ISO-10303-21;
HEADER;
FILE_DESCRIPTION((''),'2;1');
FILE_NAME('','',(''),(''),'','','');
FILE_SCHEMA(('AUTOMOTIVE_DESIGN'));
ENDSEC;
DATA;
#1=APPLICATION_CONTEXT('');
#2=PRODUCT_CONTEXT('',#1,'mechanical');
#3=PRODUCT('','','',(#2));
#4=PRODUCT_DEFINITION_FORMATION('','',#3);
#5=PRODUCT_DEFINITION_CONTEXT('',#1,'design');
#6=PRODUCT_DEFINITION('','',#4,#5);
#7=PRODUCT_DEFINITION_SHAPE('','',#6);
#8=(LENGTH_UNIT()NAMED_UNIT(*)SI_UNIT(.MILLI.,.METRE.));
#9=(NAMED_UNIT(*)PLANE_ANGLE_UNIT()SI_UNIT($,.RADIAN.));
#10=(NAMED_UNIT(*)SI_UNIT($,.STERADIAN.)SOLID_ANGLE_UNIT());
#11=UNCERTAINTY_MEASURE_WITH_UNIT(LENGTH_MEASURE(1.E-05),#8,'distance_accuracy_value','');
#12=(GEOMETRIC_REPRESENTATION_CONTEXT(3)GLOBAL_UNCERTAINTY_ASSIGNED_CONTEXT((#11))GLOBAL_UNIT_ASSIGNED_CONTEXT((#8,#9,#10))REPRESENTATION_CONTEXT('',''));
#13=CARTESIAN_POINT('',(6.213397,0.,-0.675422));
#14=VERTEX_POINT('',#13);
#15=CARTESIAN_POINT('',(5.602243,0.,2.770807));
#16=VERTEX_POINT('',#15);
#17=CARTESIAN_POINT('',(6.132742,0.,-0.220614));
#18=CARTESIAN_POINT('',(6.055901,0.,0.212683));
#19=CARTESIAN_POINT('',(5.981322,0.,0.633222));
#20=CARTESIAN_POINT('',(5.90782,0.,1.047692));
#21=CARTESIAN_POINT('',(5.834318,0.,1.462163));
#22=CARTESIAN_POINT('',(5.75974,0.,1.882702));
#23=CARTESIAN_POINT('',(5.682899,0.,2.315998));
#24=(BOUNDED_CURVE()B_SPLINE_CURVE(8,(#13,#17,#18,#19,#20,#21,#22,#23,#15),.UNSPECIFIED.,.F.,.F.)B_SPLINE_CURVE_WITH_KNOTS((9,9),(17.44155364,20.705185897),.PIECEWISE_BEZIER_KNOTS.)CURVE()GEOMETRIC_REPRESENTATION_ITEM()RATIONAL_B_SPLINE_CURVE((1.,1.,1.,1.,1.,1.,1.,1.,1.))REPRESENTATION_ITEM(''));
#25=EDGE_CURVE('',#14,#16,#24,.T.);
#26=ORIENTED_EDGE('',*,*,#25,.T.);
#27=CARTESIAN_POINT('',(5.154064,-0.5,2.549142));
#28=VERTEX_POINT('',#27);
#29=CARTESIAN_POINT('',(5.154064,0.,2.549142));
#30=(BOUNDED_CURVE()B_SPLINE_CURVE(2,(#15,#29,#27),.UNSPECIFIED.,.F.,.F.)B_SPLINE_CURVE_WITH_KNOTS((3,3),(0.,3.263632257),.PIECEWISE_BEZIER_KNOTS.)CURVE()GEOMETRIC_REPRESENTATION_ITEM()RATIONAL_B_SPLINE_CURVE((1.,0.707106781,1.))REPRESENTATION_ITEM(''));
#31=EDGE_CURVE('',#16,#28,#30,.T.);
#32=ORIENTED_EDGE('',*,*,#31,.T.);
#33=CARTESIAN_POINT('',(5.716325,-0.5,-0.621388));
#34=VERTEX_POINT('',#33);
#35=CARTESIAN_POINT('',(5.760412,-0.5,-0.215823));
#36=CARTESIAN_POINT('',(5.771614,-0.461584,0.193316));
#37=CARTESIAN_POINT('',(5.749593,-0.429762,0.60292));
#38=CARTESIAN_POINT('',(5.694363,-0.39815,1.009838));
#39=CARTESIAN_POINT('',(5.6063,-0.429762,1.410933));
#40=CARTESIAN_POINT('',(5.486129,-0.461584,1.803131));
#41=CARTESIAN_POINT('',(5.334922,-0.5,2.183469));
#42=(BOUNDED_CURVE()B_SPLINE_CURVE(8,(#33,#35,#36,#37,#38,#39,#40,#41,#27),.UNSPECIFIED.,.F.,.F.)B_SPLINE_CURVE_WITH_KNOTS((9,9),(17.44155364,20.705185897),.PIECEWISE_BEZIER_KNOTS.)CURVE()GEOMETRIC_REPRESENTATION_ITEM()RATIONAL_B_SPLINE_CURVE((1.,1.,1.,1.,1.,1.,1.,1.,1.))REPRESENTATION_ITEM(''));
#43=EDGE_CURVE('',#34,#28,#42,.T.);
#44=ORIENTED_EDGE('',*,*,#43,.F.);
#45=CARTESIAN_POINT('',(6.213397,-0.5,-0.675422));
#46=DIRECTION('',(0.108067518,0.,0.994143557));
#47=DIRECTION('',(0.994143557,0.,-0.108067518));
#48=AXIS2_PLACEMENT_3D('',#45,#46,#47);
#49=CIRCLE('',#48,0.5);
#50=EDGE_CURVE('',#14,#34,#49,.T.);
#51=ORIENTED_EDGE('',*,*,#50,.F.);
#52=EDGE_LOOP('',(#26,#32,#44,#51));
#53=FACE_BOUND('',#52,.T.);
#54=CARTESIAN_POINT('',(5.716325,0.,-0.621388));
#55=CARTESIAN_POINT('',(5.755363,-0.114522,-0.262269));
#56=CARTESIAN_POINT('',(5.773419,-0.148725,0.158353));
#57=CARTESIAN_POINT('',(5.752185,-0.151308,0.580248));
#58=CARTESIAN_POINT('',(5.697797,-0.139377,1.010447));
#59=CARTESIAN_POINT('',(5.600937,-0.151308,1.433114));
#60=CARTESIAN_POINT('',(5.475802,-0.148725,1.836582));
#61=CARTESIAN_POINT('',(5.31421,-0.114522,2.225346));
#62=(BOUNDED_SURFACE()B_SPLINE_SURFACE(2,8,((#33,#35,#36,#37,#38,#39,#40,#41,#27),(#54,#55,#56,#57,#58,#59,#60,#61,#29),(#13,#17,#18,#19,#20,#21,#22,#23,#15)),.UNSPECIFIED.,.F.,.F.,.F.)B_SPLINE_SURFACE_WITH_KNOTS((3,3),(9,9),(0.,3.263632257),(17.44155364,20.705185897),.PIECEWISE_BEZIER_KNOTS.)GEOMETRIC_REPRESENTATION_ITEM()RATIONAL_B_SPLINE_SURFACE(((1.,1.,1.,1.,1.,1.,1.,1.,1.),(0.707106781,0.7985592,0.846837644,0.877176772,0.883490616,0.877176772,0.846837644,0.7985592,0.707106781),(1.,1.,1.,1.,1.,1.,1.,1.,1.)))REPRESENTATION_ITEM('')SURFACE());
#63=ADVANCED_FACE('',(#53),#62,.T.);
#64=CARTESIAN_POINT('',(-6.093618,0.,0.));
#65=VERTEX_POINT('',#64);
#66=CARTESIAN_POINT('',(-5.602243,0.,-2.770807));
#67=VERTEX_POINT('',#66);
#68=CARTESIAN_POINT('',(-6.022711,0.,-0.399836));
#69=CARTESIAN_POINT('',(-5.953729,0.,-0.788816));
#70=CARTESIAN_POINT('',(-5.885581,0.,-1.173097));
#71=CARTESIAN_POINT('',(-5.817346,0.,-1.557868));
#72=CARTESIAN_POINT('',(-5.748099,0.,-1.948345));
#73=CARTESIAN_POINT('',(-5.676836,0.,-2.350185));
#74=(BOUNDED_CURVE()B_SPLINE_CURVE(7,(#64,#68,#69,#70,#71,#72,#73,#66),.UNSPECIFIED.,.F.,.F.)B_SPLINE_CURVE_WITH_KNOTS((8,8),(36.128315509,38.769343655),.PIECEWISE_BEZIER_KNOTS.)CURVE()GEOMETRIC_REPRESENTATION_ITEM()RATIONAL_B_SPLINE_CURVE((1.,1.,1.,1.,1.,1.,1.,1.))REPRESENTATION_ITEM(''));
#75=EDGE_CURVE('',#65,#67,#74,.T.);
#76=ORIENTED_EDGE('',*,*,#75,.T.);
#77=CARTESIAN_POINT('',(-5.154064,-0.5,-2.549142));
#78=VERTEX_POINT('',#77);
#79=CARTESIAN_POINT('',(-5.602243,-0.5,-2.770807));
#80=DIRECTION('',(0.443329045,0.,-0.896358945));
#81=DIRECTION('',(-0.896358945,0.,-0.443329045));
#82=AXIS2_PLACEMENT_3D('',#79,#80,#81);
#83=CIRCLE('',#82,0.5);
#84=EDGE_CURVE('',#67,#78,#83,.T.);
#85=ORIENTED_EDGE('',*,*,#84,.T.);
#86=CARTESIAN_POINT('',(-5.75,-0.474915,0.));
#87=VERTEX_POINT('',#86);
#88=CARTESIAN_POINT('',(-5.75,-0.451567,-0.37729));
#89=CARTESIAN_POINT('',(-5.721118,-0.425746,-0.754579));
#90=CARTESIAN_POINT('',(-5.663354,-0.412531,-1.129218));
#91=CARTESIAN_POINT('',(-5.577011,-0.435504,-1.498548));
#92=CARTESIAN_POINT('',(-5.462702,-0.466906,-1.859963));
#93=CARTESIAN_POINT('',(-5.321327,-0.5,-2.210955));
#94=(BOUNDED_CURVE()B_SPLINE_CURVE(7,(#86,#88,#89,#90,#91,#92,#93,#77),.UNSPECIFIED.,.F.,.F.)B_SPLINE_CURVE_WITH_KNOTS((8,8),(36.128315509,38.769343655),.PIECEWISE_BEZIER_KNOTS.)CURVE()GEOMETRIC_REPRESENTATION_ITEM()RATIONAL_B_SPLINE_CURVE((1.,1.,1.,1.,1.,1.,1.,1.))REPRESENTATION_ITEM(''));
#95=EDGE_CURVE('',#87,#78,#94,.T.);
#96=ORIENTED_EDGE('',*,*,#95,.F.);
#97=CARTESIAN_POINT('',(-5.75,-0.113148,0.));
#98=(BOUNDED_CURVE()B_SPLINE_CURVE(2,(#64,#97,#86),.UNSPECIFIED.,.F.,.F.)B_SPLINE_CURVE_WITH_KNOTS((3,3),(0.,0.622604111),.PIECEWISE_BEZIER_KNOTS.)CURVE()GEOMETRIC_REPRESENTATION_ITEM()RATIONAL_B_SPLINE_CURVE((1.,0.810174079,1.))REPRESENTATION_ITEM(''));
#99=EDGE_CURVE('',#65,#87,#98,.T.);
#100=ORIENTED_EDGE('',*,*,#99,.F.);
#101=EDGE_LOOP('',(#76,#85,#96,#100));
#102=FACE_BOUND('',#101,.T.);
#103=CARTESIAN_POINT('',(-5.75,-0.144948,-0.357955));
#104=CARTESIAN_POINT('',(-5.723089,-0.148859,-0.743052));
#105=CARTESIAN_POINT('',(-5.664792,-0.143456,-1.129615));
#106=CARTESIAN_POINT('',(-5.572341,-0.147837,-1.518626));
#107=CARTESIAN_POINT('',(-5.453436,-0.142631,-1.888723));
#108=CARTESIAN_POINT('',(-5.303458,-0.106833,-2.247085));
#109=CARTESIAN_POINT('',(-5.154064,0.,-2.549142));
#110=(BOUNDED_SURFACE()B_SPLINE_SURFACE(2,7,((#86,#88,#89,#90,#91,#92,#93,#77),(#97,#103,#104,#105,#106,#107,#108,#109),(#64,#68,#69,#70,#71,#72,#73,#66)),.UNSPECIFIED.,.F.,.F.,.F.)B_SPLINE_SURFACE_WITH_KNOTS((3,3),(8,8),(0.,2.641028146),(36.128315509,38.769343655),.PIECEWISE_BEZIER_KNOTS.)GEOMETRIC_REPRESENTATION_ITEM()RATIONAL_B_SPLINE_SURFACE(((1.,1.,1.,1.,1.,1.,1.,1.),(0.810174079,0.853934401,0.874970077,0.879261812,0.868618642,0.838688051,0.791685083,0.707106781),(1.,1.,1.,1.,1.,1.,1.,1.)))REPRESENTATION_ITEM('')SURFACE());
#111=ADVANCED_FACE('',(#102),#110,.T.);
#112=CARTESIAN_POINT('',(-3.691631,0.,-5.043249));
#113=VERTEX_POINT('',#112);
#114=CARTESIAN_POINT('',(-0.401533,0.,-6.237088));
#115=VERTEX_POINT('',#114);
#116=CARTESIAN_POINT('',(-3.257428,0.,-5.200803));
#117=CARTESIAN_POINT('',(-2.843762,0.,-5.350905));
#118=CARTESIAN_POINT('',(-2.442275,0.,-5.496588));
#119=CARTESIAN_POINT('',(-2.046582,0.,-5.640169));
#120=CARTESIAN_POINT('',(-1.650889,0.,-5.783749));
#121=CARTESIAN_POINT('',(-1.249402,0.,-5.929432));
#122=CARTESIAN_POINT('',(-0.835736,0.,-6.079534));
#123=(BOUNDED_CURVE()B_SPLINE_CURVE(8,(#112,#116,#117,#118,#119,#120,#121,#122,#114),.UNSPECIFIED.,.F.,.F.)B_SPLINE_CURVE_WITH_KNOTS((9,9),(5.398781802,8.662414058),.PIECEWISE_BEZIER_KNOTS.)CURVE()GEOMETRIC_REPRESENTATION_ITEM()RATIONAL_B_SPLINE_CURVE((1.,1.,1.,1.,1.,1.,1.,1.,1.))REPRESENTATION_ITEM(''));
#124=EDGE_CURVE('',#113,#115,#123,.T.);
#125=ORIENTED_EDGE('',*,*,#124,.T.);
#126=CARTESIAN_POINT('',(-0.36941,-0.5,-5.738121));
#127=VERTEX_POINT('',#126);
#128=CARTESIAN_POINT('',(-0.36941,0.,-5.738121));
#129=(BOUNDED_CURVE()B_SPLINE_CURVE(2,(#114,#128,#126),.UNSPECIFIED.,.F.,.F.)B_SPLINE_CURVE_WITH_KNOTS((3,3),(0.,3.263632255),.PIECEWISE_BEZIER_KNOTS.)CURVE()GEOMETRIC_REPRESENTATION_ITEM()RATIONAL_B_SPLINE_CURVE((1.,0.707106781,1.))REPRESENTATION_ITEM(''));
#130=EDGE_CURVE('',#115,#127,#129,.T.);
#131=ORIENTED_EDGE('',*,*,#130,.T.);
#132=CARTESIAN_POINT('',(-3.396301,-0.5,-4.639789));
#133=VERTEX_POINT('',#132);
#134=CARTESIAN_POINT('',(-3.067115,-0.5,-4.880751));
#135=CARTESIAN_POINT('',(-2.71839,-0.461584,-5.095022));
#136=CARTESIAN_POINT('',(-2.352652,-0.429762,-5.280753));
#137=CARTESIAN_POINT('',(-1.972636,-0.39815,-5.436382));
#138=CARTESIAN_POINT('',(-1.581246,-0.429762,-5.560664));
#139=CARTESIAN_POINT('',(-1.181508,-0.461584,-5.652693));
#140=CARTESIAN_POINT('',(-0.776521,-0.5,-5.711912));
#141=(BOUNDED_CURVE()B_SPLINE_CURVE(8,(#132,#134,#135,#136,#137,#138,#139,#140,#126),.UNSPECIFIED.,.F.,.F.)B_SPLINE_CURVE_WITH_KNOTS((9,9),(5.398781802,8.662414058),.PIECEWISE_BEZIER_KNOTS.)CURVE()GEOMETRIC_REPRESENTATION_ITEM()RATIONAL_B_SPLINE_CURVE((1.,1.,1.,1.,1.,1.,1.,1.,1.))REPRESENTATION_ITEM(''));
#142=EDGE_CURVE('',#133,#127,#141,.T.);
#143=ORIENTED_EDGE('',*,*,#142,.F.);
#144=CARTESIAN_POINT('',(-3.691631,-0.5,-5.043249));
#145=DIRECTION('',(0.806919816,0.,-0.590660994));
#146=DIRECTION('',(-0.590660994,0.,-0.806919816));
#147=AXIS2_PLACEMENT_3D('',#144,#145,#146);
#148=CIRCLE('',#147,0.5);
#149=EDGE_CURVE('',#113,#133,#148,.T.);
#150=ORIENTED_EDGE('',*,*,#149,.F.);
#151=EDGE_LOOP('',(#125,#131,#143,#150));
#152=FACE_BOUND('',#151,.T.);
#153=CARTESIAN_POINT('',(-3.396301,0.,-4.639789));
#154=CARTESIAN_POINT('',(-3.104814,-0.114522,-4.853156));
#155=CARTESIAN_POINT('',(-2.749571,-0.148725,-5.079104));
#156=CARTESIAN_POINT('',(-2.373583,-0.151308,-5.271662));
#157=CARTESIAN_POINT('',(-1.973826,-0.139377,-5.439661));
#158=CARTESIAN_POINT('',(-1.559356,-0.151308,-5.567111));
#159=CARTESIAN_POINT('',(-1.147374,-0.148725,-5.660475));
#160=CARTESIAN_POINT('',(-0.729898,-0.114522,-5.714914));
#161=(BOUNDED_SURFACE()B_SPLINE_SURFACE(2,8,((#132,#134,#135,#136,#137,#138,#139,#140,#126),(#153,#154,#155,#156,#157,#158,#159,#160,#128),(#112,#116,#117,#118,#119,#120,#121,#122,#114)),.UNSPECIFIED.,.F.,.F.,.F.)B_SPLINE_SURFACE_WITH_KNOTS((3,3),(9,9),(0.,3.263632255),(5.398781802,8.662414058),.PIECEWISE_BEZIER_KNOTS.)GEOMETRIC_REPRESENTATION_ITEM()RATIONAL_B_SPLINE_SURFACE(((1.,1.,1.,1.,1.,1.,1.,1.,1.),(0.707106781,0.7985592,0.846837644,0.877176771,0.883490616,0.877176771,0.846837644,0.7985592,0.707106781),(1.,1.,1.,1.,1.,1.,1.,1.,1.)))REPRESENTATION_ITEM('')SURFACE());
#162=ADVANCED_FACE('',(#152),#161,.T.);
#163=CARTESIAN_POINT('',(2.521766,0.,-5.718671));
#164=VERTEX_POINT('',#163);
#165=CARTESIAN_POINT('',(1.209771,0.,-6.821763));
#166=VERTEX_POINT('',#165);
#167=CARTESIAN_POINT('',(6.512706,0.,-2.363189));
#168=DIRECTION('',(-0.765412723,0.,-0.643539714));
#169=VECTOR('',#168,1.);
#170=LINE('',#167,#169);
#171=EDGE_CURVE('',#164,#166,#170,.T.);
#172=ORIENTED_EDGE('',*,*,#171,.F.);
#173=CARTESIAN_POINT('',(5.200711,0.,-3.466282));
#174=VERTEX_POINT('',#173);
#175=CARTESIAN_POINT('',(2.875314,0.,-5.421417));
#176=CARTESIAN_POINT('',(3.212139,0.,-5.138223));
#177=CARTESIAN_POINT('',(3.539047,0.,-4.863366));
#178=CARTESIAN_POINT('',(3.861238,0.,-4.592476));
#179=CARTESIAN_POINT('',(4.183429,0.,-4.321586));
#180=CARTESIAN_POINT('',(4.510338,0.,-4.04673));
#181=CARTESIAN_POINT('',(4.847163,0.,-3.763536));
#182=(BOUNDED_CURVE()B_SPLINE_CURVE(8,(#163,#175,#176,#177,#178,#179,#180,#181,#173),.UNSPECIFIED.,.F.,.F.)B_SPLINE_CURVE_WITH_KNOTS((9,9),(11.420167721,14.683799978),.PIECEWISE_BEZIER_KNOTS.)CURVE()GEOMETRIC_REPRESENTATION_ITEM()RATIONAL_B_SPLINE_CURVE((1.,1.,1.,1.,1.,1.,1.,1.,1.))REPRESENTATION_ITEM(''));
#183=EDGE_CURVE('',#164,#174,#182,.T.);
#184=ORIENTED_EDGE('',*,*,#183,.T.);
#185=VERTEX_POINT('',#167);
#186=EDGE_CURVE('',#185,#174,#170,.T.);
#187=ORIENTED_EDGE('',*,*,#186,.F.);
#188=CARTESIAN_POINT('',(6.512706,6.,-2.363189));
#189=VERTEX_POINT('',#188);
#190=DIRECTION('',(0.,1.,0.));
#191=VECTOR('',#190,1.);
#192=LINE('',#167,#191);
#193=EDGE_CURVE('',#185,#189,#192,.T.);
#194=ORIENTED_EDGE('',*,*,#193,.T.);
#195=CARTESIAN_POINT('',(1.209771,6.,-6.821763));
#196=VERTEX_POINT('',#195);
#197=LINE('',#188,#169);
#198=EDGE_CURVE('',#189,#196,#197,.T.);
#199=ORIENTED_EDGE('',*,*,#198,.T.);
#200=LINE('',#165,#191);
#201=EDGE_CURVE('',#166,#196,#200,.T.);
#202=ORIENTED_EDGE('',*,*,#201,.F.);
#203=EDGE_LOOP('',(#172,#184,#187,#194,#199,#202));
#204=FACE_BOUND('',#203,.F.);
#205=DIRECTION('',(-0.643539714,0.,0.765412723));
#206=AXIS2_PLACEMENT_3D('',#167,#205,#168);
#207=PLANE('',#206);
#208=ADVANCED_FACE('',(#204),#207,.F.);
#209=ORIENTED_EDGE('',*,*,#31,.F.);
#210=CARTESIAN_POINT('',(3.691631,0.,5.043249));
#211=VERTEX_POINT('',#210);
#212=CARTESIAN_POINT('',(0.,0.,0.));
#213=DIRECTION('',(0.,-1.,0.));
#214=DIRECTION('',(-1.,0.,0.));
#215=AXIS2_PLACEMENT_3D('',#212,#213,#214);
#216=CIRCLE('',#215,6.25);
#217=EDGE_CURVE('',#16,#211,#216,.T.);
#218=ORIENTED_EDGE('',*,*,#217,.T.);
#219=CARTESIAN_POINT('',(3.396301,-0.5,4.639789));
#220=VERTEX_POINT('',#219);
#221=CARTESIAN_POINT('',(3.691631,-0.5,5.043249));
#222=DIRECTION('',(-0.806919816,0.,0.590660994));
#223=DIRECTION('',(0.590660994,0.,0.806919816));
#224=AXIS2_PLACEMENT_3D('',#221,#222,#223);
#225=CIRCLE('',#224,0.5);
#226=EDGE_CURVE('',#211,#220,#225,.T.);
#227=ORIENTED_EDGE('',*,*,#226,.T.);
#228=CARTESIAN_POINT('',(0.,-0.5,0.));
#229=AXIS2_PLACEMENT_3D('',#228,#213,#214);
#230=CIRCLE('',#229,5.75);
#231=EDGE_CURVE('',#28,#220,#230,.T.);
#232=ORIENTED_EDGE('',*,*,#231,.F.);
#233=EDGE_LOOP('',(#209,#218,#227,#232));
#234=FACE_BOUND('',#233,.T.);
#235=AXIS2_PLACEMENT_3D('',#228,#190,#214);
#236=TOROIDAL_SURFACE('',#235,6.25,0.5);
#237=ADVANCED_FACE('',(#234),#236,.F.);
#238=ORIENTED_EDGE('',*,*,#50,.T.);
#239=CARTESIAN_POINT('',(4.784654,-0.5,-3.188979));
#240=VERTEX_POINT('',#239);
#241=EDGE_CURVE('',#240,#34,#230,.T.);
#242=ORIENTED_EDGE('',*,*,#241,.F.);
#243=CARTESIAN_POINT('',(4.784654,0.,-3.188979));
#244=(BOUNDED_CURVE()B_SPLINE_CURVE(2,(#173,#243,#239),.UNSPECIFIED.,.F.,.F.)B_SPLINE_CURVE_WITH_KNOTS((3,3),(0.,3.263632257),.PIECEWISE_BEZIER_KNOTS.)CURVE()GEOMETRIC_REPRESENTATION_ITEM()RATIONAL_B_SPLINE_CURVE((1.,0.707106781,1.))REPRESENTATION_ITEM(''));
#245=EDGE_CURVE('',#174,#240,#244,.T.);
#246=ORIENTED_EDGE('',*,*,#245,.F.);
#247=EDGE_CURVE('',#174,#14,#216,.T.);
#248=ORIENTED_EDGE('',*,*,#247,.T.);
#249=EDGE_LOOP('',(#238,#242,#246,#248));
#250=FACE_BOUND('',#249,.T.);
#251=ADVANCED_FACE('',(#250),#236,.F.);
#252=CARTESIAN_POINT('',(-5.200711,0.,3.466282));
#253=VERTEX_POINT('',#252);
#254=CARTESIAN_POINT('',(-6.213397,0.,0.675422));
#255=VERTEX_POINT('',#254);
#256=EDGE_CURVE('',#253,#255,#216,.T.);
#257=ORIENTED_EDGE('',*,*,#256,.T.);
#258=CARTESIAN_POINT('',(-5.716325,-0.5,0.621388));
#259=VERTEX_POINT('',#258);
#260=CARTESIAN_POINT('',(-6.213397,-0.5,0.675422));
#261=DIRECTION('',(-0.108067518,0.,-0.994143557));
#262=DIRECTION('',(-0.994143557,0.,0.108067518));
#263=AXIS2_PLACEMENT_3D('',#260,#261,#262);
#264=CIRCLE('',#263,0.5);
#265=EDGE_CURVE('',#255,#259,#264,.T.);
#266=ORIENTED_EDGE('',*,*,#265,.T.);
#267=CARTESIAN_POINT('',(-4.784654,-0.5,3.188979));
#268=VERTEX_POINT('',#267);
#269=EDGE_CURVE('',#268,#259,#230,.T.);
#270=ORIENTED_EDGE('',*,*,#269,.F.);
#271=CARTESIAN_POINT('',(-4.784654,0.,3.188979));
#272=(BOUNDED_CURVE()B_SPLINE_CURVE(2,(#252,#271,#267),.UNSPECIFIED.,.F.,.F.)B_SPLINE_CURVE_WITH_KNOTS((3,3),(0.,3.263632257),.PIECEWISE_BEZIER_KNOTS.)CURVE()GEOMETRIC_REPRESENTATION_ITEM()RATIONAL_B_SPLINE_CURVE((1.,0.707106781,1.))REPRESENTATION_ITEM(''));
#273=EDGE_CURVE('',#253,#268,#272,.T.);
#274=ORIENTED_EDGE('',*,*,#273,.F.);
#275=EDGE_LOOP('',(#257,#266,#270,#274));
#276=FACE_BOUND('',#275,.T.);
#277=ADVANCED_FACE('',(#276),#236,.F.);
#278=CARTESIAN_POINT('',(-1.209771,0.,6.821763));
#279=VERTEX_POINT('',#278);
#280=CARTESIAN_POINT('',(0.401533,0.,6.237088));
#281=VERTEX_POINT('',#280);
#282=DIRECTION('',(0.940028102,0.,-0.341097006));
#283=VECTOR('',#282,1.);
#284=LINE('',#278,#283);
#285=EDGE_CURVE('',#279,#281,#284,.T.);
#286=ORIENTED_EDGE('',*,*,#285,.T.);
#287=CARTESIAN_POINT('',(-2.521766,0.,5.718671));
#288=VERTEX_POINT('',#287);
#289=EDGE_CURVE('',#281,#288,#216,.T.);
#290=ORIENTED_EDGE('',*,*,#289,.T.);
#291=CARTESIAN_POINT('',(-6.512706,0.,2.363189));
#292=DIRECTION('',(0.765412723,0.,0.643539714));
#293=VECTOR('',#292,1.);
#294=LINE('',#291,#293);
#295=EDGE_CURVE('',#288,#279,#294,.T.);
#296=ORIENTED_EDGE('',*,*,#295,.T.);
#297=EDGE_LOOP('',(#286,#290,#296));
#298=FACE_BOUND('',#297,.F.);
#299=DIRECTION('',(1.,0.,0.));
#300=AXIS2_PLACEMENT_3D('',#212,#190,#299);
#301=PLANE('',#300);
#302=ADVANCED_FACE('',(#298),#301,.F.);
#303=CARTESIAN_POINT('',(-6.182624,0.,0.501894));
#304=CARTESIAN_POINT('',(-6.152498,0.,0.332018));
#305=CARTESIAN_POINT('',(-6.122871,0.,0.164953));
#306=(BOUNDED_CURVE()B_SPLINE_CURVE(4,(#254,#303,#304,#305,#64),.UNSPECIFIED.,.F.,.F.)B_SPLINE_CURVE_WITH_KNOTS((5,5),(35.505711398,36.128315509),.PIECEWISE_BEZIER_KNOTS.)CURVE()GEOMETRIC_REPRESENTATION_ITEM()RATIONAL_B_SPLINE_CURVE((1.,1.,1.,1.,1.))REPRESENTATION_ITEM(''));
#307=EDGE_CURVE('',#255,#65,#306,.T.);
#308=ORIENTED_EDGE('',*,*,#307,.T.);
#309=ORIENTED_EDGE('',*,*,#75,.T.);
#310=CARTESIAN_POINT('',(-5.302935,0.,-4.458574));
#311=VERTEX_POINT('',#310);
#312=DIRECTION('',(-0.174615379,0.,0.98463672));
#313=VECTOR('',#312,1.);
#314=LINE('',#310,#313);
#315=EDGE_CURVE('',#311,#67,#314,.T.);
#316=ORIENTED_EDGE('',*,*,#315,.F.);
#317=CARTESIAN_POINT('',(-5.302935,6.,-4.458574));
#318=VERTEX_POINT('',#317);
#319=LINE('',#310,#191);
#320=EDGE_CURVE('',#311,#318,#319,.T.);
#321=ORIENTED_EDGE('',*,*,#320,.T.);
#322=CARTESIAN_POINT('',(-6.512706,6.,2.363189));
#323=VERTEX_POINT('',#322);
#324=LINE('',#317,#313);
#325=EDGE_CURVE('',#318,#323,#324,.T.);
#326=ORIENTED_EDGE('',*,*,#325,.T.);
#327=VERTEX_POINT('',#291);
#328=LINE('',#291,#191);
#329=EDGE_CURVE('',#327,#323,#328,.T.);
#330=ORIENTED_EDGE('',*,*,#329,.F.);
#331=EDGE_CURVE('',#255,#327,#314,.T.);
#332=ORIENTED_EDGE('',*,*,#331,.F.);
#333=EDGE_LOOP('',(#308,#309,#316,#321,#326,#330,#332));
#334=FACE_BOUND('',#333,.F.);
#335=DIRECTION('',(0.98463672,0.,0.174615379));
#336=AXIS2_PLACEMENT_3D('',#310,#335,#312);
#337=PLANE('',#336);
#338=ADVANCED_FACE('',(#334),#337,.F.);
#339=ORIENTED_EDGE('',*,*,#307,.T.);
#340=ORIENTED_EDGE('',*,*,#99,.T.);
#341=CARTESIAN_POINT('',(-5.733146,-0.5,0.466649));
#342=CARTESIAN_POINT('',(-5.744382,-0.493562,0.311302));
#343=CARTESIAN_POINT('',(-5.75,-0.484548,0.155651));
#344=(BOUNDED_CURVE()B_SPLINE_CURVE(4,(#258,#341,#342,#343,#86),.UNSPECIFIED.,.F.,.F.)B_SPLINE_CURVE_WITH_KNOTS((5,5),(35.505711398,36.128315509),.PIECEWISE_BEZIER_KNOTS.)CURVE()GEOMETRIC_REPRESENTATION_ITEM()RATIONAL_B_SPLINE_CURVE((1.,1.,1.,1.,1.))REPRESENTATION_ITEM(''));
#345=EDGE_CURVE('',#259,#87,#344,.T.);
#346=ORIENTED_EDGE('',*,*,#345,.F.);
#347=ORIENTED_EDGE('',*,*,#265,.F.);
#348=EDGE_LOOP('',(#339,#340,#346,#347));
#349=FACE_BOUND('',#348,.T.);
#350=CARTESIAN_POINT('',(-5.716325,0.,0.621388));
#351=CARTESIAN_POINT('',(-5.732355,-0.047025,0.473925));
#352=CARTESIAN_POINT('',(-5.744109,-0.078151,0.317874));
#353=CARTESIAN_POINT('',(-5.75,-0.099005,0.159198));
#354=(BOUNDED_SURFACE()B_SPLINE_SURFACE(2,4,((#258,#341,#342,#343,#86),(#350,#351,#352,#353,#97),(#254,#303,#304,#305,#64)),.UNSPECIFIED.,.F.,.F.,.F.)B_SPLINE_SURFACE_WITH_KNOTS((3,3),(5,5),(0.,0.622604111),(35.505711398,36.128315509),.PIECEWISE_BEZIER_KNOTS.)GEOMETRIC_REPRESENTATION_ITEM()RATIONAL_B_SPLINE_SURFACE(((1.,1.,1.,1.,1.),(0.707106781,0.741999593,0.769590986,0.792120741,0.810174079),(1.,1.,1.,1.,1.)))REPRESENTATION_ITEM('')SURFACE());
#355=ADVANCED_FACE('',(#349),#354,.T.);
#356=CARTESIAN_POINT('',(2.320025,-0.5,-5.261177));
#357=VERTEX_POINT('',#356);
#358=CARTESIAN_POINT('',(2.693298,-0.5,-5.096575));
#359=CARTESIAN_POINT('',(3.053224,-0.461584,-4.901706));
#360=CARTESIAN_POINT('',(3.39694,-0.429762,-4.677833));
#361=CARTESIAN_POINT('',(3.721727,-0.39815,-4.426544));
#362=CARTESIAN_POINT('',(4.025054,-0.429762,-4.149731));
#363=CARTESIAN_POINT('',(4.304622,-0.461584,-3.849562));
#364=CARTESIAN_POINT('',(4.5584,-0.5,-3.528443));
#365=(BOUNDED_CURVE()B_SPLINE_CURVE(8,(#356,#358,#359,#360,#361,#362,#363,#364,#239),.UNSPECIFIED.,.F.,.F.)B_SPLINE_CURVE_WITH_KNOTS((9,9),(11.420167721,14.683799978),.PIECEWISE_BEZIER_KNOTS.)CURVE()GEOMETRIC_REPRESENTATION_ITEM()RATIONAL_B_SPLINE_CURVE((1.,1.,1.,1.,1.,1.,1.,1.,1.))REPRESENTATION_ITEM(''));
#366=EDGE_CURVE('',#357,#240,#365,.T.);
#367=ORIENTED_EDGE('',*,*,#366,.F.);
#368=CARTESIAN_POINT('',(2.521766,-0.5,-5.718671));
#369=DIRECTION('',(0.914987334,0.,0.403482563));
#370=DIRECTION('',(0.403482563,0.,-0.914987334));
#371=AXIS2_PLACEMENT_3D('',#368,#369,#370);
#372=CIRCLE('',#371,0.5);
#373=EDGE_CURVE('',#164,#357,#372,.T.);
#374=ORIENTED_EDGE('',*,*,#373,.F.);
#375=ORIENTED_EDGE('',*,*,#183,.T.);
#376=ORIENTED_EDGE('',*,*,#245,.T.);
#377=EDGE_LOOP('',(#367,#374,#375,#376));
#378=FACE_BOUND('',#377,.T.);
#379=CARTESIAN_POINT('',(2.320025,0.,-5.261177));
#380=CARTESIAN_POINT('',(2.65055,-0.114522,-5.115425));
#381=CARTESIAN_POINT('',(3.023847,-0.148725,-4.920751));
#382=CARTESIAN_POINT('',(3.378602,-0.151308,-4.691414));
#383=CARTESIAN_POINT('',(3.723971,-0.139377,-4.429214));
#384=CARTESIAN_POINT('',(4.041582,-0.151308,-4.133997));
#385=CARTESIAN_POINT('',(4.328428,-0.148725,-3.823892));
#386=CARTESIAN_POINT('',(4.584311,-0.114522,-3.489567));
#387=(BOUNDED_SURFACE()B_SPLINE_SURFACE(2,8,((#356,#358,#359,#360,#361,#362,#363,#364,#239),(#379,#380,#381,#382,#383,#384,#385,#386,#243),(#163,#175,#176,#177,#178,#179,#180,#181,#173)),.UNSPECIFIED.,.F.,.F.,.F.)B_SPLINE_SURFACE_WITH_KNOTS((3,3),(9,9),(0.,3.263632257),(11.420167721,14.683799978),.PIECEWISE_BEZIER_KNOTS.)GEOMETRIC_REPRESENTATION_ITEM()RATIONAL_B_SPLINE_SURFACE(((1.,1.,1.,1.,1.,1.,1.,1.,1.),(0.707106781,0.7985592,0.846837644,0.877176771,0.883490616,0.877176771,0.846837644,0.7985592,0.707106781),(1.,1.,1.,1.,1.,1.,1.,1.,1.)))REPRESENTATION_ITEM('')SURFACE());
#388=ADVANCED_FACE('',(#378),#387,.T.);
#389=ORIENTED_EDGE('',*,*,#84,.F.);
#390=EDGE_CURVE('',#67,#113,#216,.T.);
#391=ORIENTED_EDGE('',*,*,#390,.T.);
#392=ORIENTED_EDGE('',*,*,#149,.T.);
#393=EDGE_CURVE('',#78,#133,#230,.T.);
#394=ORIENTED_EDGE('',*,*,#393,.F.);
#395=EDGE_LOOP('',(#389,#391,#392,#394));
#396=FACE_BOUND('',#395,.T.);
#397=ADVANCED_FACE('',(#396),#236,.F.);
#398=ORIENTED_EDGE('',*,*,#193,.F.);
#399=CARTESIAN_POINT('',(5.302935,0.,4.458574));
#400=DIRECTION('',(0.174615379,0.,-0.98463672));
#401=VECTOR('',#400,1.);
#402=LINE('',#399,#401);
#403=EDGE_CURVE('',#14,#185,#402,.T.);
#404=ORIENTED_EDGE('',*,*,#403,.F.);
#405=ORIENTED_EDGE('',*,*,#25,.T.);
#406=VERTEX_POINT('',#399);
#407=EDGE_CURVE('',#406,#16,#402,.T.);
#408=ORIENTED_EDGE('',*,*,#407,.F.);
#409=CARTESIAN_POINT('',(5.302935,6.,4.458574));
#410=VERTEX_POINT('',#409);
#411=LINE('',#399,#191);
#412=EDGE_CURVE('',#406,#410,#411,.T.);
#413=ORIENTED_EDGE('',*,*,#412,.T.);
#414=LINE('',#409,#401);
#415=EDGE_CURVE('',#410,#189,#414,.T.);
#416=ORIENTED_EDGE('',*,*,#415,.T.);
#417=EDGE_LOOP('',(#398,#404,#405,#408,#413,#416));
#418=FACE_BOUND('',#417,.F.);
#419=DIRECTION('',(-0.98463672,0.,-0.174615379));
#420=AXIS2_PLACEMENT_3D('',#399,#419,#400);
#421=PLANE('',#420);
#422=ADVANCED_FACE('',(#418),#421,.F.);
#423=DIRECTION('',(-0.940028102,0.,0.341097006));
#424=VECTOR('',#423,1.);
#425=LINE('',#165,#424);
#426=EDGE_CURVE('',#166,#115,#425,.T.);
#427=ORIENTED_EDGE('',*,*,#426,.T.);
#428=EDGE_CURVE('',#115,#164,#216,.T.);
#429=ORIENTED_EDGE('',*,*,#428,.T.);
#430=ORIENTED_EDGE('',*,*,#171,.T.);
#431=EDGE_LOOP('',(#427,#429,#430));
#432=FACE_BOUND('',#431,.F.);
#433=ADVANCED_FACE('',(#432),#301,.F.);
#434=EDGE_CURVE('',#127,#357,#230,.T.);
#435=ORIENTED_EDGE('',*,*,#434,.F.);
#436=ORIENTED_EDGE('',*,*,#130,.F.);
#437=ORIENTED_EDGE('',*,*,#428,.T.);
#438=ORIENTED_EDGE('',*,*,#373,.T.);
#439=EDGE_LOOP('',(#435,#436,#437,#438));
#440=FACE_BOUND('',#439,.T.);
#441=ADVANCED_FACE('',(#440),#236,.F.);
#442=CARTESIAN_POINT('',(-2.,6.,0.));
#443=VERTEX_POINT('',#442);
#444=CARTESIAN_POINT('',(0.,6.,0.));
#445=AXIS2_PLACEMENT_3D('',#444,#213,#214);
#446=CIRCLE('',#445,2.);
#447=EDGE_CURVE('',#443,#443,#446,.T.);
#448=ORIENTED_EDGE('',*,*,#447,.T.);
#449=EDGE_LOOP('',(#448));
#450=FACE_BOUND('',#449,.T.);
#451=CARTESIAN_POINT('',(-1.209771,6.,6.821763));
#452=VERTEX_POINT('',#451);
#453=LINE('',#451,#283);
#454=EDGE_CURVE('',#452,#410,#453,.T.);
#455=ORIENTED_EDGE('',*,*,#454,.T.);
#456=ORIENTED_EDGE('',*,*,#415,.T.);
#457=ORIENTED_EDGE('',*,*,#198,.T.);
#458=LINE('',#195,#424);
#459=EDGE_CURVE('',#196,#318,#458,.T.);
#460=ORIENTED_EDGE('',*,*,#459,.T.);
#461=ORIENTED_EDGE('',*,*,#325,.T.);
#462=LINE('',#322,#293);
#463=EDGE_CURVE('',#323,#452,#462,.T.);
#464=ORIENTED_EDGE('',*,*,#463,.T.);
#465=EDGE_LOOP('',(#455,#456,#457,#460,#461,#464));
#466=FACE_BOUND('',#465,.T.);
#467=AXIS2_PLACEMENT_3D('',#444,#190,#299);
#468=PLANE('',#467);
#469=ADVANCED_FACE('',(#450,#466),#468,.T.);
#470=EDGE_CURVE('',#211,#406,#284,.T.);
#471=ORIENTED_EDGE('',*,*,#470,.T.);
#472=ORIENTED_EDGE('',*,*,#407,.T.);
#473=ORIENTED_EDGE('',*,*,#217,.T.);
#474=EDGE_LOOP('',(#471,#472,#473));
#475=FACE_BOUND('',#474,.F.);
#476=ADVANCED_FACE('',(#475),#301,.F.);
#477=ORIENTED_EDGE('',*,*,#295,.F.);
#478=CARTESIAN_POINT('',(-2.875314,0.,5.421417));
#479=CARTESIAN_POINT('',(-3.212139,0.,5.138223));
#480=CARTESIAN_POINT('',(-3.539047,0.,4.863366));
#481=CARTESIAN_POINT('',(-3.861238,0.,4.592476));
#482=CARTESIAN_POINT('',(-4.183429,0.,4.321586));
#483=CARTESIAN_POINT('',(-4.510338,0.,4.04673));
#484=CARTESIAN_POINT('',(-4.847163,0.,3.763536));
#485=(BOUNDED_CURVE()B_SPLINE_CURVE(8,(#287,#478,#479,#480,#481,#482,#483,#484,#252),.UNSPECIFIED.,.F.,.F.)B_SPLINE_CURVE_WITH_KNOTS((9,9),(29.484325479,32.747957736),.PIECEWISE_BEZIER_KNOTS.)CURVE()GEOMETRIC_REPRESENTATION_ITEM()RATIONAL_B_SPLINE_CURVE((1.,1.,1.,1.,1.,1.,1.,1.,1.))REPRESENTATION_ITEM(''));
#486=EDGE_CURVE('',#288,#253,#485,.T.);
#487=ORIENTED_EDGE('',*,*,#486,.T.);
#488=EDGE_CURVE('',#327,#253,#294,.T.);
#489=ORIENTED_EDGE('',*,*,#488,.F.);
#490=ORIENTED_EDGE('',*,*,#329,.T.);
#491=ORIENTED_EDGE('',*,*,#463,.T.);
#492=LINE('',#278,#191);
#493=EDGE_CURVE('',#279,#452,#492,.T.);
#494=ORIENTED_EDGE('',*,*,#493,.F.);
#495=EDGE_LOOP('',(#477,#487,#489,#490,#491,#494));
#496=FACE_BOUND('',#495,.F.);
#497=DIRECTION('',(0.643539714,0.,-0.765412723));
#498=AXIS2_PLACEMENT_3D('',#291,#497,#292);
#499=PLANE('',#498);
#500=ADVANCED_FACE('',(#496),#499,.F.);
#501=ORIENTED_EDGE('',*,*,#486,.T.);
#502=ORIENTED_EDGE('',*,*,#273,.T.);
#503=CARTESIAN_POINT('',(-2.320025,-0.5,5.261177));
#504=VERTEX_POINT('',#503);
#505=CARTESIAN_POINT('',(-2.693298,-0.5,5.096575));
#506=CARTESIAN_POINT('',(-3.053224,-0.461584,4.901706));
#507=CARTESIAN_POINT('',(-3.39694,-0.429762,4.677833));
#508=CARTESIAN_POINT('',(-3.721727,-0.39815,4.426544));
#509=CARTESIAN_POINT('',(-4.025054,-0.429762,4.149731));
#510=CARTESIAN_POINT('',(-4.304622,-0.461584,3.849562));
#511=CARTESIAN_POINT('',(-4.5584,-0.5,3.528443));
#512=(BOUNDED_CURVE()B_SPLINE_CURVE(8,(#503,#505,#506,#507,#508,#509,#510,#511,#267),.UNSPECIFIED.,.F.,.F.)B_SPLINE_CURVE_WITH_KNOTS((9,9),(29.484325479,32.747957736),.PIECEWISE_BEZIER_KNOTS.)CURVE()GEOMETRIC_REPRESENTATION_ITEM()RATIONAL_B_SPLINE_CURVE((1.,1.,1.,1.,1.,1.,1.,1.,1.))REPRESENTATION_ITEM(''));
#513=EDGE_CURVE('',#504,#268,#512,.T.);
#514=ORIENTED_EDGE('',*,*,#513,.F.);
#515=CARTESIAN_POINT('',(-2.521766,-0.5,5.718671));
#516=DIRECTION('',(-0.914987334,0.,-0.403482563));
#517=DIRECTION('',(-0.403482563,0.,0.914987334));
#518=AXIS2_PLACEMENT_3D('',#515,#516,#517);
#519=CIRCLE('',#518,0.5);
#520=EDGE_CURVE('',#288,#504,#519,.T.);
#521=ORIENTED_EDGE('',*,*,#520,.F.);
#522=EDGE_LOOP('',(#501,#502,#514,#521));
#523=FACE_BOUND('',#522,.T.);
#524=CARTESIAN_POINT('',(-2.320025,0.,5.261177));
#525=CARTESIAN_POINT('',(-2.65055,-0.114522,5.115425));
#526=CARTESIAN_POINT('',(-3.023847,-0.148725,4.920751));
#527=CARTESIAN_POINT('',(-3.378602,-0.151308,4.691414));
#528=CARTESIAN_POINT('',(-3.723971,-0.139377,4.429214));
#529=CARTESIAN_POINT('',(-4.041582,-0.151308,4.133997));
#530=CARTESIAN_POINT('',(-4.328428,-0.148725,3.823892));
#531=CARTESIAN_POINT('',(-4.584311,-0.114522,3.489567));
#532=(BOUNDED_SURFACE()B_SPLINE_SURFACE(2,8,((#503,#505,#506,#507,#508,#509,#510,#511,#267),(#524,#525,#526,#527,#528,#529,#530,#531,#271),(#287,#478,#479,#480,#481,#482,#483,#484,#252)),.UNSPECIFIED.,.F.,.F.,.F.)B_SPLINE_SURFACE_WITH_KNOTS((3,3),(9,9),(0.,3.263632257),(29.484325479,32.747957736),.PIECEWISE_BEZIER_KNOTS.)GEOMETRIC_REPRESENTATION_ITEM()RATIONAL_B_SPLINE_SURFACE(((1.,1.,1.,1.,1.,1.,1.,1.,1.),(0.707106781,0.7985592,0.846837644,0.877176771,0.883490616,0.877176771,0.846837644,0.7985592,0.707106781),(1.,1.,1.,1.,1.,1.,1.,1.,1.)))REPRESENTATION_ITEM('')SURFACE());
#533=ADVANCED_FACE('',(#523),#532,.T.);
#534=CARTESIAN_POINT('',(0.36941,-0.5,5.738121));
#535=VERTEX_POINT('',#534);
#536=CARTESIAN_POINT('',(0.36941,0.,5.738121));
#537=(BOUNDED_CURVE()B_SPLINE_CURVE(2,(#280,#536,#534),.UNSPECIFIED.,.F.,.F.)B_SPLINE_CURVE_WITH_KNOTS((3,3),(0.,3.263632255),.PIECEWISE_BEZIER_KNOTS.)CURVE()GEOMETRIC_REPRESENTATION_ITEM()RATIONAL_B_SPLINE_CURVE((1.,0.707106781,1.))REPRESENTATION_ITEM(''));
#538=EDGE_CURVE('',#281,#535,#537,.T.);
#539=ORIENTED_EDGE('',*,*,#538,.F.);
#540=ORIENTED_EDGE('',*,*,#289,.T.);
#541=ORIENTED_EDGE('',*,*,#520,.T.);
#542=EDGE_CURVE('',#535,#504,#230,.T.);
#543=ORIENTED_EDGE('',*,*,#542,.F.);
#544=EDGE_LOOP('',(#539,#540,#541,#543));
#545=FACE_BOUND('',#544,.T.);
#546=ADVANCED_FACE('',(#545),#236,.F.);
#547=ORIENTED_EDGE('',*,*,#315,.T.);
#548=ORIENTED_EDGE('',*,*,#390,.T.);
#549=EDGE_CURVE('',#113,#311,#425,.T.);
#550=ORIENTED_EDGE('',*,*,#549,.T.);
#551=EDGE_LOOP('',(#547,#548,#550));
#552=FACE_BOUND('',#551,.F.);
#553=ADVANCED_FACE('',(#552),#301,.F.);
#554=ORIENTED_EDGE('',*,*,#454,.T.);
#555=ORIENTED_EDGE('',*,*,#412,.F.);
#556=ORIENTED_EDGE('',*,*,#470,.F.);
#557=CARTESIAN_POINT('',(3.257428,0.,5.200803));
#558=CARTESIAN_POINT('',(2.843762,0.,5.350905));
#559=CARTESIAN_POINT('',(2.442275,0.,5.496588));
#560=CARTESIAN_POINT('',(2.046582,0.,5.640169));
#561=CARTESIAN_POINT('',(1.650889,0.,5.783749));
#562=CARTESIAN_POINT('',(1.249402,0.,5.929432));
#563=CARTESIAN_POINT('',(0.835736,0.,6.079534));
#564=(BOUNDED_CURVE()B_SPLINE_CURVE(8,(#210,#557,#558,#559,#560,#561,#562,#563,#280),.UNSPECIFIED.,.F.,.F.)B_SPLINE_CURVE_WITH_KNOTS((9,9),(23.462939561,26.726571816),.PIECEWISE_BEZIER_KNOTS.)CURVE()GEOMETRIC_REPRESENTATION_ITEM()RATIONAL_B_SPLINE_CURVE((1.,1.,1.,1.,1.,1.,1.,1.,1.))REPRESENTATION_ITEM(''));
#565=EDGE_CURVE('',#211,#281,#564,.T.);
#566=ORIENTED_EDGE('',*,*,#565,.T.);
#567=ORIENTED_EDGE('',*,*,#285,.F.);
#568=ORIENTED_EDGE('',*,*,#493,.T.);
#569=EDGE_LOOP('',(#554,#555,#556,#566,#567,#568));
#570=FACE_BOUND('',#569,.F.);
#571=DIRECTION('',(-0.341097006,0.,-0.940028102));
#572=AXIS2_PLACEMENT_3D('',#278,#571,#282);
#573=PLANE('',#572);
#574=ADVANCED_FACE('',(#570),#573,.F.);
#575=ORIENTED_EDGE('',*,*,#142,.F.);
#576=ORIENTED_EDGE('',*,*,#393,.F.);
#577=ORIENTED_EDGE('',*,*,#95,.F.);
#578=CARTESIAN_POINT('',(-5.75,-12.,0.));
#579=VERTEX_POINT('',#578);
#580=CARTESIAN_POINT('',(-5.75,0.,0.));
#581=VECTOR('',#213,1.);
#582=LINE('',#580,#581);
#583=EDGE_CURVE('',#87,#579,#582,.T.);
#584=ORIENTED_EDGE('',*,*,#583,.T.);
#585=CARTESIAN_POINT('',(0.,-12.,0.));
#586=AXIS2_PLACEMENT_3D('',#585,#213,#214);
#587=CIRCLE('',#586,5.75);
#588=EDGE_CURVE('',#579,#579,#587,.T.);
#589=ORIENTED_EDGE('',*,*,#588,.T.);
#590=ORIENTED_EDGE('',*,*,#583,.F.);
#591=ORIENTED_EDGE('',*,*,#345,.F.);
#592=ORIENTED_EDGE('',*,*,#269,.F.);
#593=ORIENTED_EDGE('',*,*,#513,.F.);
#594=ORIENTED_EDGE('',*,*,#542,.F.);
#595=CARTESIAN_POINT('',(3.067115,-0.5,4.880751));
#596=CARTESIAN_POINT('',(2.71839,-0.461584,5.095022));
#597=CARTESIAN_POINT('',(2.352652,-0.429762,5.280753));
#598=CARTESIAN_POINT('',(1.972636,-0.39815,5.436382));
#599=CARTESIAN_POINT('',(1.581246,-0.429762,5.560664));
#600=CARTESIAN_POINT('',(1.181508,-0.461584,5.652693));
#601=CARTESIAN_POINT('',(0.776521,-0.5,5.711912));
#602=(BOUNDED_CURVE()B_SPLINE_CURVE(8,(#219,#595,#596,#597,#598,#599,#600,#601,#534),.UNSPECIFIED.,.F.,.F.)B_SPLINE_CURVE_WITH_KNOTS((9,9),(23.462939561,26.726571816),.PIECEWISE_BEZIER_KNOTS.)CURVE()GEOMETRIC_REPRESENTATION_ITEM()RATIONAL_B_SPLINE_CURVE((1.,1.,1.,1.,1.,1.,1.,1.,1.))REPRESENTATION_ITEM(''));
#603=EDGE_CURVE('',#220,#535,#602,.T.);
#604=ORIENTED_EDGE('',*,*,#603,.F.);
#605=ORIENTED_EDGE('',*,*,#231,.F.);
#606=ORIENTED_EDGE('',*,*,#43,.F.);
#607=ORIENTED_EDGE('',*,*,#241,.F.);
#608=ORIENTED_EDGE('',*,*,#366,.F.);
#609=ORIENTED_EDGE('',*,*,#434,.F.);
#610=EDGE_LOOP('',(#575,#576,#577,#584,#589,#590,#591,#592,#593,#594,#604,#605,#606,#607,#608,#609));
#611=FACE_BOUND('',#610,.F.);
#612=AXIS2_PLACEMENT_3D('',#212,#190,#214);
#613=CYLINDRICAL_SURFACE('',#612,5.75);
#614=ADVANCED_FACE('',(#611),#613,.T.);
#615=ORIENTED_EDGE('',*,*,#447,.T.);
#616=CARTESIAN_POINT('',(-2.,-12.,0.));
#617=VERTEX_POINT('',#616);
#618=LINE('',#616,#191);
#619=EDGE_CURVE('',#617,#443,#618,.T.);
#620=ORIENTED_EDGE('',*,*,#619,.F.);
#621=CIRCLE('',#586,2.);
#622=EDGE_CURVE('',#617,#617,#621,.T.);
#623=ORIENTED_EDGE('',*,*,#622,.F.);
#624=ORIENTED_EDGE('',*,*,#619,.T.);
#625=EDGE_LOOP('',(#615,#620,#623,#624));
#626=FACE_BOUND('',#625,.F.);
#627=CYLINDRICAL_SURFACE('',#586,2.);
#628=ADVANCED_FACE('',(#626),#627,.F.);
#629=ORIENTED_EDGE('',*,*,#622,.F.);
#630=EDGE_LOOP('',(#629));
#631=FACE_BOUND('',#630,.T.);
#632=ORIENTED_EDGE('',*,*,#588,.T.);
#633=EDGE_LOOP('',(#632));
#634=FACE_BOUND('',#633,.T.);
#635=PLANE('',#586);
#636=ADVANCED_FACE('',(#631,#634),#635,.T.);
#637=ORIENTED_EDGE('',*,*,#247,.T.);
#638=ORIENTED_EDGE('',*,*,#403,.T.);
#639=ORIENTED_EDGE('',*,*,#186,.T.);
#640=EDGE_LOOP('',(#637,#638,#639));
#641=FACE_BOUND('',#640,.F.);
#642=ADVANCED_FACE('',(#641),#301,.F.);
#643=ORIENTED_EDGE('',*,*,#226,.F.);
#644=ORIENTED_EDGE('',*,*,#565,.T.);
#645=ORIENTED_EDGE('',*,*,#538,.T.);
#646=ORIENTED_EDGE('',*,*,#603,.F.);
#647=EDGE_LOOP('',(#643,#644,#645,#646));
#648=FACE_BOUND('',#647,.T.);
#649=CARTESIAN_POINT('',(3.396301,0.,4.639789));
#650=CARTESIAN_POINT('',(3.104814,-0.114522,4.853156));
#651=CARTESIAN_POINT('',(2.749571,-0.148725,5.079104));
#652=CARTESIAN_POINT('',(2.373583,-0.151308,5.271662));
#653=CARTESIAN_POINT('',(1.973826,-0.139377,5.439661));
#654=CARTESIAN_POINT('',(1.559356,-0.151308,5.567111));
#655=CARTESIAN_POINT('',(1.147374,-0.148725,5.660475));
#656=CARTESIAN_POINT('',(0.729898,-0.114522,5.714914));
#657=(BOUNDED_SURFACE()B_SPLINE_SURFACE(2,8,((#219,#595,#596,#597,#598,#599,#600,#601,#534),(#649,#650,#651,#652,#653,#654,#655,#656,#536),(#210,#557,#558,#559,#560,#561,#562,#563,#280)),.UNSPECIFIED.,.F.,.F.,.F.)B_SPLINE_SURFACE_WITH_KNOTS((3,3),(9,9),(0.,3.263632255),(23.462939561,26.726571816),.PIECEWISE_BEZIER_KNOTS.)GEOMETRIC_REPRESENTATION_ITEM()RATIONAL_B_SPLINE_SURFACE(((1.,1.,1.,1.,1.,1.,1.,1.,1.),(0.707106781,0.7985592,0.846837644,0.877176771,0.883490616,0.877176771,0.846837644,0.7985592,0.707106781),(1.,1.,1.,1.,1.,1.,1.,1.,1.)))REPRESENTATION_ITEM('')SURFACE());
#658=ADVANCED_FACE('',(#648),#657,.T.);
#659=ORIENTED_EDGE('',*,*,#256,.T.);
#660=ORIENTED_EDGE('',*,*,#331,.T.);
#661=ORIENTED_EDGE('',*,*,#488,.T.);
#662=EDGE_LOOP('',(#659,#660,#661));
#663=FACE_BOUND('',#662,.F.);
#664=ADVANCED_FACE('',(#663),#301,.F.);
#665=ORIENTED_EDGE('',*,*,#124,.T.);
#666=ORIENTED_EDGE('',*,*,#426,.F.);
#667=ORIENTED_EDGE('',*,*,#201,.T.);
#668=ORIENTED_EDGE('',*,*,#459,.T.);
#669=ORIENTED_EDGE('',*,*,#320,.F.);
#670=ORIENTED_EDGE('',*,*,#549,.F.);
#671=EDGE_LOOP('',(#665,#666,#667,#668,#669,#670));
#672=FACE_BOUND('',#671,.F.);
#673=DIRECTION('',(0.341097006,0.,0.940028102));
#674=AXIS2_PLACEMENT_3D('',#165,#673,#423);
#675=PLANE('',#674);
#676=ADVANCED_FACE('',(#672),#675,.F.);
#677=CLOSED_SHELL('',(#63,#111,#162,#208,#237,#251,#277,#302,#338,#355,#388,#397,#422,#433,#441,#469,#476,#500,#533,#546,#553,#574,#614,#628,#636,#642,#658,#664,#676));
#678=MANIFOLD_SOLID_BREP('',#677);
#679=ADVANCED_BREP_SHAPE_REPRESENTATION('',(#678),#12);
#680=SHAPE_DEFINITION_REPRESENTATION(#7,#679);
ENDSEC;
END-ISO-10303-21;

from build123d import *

# Parameters (mm, degrees)
BOSS_EXTRUDE1_DEPTH = 6
SKETCH2_R           = 5.75
BOSS_EXTRUDE2_DEPTH = 12
FILLET1_R           = 0.5
SKETCH3_R           = 2
CUT_EXTRUDE1_DEPTH  = 19.0000001


with BuildPart() as part:
    # Sketch1 → Boss-Extrude1 (new body)
    with BuildSketch(Plane(origin=(0, 0, 0), x_dir=(1, 0, 0), z_dir=(0, 1, 0))):
        Polygon((1.209770832, 6.821763301), (-5.302934901, 4.458573924), (-6.512705733, -2.363189377), (-1.209770832, -6.821763301), (5.302934901, -4.458573924), (6.512705733, 2.363189377), align=None)
    extrude(amount=BOSS_EXTRUDE1_DEPTH)

    # Sketch2 → Boss-Extrude2 (add)
    with BuildSketch(Plane(origin=(0, 0, 0), x_dir=(-1, 0, 0), z_dir=(0, -1, 0))):
        Circle(SKETCH2_R)
    extrude(amount=BOSS_EXTRUDE2_DEPTH)

    # Fillet1
    fillet1_edges = [part.edges().sort_by_distance(p)[0] for p in [
        (5.75, 0, 0),
    ]]
    fillet(fillet1_edges, radius=FILLET1_R)

    # Sketch3 → Cut-Extrude1 (cut, through all)
    with BuildSketch(Plane(origin=(0, -12, 0), x_dir=(-1, 0, 0), z_dir=(0, -1, 0))):
        Circle(SKETCH3_R)
    extrude(amount=-CUT_EXTRUDE1_DEPTH, mode=Mode.SUBTRACT)


solid = part.part
